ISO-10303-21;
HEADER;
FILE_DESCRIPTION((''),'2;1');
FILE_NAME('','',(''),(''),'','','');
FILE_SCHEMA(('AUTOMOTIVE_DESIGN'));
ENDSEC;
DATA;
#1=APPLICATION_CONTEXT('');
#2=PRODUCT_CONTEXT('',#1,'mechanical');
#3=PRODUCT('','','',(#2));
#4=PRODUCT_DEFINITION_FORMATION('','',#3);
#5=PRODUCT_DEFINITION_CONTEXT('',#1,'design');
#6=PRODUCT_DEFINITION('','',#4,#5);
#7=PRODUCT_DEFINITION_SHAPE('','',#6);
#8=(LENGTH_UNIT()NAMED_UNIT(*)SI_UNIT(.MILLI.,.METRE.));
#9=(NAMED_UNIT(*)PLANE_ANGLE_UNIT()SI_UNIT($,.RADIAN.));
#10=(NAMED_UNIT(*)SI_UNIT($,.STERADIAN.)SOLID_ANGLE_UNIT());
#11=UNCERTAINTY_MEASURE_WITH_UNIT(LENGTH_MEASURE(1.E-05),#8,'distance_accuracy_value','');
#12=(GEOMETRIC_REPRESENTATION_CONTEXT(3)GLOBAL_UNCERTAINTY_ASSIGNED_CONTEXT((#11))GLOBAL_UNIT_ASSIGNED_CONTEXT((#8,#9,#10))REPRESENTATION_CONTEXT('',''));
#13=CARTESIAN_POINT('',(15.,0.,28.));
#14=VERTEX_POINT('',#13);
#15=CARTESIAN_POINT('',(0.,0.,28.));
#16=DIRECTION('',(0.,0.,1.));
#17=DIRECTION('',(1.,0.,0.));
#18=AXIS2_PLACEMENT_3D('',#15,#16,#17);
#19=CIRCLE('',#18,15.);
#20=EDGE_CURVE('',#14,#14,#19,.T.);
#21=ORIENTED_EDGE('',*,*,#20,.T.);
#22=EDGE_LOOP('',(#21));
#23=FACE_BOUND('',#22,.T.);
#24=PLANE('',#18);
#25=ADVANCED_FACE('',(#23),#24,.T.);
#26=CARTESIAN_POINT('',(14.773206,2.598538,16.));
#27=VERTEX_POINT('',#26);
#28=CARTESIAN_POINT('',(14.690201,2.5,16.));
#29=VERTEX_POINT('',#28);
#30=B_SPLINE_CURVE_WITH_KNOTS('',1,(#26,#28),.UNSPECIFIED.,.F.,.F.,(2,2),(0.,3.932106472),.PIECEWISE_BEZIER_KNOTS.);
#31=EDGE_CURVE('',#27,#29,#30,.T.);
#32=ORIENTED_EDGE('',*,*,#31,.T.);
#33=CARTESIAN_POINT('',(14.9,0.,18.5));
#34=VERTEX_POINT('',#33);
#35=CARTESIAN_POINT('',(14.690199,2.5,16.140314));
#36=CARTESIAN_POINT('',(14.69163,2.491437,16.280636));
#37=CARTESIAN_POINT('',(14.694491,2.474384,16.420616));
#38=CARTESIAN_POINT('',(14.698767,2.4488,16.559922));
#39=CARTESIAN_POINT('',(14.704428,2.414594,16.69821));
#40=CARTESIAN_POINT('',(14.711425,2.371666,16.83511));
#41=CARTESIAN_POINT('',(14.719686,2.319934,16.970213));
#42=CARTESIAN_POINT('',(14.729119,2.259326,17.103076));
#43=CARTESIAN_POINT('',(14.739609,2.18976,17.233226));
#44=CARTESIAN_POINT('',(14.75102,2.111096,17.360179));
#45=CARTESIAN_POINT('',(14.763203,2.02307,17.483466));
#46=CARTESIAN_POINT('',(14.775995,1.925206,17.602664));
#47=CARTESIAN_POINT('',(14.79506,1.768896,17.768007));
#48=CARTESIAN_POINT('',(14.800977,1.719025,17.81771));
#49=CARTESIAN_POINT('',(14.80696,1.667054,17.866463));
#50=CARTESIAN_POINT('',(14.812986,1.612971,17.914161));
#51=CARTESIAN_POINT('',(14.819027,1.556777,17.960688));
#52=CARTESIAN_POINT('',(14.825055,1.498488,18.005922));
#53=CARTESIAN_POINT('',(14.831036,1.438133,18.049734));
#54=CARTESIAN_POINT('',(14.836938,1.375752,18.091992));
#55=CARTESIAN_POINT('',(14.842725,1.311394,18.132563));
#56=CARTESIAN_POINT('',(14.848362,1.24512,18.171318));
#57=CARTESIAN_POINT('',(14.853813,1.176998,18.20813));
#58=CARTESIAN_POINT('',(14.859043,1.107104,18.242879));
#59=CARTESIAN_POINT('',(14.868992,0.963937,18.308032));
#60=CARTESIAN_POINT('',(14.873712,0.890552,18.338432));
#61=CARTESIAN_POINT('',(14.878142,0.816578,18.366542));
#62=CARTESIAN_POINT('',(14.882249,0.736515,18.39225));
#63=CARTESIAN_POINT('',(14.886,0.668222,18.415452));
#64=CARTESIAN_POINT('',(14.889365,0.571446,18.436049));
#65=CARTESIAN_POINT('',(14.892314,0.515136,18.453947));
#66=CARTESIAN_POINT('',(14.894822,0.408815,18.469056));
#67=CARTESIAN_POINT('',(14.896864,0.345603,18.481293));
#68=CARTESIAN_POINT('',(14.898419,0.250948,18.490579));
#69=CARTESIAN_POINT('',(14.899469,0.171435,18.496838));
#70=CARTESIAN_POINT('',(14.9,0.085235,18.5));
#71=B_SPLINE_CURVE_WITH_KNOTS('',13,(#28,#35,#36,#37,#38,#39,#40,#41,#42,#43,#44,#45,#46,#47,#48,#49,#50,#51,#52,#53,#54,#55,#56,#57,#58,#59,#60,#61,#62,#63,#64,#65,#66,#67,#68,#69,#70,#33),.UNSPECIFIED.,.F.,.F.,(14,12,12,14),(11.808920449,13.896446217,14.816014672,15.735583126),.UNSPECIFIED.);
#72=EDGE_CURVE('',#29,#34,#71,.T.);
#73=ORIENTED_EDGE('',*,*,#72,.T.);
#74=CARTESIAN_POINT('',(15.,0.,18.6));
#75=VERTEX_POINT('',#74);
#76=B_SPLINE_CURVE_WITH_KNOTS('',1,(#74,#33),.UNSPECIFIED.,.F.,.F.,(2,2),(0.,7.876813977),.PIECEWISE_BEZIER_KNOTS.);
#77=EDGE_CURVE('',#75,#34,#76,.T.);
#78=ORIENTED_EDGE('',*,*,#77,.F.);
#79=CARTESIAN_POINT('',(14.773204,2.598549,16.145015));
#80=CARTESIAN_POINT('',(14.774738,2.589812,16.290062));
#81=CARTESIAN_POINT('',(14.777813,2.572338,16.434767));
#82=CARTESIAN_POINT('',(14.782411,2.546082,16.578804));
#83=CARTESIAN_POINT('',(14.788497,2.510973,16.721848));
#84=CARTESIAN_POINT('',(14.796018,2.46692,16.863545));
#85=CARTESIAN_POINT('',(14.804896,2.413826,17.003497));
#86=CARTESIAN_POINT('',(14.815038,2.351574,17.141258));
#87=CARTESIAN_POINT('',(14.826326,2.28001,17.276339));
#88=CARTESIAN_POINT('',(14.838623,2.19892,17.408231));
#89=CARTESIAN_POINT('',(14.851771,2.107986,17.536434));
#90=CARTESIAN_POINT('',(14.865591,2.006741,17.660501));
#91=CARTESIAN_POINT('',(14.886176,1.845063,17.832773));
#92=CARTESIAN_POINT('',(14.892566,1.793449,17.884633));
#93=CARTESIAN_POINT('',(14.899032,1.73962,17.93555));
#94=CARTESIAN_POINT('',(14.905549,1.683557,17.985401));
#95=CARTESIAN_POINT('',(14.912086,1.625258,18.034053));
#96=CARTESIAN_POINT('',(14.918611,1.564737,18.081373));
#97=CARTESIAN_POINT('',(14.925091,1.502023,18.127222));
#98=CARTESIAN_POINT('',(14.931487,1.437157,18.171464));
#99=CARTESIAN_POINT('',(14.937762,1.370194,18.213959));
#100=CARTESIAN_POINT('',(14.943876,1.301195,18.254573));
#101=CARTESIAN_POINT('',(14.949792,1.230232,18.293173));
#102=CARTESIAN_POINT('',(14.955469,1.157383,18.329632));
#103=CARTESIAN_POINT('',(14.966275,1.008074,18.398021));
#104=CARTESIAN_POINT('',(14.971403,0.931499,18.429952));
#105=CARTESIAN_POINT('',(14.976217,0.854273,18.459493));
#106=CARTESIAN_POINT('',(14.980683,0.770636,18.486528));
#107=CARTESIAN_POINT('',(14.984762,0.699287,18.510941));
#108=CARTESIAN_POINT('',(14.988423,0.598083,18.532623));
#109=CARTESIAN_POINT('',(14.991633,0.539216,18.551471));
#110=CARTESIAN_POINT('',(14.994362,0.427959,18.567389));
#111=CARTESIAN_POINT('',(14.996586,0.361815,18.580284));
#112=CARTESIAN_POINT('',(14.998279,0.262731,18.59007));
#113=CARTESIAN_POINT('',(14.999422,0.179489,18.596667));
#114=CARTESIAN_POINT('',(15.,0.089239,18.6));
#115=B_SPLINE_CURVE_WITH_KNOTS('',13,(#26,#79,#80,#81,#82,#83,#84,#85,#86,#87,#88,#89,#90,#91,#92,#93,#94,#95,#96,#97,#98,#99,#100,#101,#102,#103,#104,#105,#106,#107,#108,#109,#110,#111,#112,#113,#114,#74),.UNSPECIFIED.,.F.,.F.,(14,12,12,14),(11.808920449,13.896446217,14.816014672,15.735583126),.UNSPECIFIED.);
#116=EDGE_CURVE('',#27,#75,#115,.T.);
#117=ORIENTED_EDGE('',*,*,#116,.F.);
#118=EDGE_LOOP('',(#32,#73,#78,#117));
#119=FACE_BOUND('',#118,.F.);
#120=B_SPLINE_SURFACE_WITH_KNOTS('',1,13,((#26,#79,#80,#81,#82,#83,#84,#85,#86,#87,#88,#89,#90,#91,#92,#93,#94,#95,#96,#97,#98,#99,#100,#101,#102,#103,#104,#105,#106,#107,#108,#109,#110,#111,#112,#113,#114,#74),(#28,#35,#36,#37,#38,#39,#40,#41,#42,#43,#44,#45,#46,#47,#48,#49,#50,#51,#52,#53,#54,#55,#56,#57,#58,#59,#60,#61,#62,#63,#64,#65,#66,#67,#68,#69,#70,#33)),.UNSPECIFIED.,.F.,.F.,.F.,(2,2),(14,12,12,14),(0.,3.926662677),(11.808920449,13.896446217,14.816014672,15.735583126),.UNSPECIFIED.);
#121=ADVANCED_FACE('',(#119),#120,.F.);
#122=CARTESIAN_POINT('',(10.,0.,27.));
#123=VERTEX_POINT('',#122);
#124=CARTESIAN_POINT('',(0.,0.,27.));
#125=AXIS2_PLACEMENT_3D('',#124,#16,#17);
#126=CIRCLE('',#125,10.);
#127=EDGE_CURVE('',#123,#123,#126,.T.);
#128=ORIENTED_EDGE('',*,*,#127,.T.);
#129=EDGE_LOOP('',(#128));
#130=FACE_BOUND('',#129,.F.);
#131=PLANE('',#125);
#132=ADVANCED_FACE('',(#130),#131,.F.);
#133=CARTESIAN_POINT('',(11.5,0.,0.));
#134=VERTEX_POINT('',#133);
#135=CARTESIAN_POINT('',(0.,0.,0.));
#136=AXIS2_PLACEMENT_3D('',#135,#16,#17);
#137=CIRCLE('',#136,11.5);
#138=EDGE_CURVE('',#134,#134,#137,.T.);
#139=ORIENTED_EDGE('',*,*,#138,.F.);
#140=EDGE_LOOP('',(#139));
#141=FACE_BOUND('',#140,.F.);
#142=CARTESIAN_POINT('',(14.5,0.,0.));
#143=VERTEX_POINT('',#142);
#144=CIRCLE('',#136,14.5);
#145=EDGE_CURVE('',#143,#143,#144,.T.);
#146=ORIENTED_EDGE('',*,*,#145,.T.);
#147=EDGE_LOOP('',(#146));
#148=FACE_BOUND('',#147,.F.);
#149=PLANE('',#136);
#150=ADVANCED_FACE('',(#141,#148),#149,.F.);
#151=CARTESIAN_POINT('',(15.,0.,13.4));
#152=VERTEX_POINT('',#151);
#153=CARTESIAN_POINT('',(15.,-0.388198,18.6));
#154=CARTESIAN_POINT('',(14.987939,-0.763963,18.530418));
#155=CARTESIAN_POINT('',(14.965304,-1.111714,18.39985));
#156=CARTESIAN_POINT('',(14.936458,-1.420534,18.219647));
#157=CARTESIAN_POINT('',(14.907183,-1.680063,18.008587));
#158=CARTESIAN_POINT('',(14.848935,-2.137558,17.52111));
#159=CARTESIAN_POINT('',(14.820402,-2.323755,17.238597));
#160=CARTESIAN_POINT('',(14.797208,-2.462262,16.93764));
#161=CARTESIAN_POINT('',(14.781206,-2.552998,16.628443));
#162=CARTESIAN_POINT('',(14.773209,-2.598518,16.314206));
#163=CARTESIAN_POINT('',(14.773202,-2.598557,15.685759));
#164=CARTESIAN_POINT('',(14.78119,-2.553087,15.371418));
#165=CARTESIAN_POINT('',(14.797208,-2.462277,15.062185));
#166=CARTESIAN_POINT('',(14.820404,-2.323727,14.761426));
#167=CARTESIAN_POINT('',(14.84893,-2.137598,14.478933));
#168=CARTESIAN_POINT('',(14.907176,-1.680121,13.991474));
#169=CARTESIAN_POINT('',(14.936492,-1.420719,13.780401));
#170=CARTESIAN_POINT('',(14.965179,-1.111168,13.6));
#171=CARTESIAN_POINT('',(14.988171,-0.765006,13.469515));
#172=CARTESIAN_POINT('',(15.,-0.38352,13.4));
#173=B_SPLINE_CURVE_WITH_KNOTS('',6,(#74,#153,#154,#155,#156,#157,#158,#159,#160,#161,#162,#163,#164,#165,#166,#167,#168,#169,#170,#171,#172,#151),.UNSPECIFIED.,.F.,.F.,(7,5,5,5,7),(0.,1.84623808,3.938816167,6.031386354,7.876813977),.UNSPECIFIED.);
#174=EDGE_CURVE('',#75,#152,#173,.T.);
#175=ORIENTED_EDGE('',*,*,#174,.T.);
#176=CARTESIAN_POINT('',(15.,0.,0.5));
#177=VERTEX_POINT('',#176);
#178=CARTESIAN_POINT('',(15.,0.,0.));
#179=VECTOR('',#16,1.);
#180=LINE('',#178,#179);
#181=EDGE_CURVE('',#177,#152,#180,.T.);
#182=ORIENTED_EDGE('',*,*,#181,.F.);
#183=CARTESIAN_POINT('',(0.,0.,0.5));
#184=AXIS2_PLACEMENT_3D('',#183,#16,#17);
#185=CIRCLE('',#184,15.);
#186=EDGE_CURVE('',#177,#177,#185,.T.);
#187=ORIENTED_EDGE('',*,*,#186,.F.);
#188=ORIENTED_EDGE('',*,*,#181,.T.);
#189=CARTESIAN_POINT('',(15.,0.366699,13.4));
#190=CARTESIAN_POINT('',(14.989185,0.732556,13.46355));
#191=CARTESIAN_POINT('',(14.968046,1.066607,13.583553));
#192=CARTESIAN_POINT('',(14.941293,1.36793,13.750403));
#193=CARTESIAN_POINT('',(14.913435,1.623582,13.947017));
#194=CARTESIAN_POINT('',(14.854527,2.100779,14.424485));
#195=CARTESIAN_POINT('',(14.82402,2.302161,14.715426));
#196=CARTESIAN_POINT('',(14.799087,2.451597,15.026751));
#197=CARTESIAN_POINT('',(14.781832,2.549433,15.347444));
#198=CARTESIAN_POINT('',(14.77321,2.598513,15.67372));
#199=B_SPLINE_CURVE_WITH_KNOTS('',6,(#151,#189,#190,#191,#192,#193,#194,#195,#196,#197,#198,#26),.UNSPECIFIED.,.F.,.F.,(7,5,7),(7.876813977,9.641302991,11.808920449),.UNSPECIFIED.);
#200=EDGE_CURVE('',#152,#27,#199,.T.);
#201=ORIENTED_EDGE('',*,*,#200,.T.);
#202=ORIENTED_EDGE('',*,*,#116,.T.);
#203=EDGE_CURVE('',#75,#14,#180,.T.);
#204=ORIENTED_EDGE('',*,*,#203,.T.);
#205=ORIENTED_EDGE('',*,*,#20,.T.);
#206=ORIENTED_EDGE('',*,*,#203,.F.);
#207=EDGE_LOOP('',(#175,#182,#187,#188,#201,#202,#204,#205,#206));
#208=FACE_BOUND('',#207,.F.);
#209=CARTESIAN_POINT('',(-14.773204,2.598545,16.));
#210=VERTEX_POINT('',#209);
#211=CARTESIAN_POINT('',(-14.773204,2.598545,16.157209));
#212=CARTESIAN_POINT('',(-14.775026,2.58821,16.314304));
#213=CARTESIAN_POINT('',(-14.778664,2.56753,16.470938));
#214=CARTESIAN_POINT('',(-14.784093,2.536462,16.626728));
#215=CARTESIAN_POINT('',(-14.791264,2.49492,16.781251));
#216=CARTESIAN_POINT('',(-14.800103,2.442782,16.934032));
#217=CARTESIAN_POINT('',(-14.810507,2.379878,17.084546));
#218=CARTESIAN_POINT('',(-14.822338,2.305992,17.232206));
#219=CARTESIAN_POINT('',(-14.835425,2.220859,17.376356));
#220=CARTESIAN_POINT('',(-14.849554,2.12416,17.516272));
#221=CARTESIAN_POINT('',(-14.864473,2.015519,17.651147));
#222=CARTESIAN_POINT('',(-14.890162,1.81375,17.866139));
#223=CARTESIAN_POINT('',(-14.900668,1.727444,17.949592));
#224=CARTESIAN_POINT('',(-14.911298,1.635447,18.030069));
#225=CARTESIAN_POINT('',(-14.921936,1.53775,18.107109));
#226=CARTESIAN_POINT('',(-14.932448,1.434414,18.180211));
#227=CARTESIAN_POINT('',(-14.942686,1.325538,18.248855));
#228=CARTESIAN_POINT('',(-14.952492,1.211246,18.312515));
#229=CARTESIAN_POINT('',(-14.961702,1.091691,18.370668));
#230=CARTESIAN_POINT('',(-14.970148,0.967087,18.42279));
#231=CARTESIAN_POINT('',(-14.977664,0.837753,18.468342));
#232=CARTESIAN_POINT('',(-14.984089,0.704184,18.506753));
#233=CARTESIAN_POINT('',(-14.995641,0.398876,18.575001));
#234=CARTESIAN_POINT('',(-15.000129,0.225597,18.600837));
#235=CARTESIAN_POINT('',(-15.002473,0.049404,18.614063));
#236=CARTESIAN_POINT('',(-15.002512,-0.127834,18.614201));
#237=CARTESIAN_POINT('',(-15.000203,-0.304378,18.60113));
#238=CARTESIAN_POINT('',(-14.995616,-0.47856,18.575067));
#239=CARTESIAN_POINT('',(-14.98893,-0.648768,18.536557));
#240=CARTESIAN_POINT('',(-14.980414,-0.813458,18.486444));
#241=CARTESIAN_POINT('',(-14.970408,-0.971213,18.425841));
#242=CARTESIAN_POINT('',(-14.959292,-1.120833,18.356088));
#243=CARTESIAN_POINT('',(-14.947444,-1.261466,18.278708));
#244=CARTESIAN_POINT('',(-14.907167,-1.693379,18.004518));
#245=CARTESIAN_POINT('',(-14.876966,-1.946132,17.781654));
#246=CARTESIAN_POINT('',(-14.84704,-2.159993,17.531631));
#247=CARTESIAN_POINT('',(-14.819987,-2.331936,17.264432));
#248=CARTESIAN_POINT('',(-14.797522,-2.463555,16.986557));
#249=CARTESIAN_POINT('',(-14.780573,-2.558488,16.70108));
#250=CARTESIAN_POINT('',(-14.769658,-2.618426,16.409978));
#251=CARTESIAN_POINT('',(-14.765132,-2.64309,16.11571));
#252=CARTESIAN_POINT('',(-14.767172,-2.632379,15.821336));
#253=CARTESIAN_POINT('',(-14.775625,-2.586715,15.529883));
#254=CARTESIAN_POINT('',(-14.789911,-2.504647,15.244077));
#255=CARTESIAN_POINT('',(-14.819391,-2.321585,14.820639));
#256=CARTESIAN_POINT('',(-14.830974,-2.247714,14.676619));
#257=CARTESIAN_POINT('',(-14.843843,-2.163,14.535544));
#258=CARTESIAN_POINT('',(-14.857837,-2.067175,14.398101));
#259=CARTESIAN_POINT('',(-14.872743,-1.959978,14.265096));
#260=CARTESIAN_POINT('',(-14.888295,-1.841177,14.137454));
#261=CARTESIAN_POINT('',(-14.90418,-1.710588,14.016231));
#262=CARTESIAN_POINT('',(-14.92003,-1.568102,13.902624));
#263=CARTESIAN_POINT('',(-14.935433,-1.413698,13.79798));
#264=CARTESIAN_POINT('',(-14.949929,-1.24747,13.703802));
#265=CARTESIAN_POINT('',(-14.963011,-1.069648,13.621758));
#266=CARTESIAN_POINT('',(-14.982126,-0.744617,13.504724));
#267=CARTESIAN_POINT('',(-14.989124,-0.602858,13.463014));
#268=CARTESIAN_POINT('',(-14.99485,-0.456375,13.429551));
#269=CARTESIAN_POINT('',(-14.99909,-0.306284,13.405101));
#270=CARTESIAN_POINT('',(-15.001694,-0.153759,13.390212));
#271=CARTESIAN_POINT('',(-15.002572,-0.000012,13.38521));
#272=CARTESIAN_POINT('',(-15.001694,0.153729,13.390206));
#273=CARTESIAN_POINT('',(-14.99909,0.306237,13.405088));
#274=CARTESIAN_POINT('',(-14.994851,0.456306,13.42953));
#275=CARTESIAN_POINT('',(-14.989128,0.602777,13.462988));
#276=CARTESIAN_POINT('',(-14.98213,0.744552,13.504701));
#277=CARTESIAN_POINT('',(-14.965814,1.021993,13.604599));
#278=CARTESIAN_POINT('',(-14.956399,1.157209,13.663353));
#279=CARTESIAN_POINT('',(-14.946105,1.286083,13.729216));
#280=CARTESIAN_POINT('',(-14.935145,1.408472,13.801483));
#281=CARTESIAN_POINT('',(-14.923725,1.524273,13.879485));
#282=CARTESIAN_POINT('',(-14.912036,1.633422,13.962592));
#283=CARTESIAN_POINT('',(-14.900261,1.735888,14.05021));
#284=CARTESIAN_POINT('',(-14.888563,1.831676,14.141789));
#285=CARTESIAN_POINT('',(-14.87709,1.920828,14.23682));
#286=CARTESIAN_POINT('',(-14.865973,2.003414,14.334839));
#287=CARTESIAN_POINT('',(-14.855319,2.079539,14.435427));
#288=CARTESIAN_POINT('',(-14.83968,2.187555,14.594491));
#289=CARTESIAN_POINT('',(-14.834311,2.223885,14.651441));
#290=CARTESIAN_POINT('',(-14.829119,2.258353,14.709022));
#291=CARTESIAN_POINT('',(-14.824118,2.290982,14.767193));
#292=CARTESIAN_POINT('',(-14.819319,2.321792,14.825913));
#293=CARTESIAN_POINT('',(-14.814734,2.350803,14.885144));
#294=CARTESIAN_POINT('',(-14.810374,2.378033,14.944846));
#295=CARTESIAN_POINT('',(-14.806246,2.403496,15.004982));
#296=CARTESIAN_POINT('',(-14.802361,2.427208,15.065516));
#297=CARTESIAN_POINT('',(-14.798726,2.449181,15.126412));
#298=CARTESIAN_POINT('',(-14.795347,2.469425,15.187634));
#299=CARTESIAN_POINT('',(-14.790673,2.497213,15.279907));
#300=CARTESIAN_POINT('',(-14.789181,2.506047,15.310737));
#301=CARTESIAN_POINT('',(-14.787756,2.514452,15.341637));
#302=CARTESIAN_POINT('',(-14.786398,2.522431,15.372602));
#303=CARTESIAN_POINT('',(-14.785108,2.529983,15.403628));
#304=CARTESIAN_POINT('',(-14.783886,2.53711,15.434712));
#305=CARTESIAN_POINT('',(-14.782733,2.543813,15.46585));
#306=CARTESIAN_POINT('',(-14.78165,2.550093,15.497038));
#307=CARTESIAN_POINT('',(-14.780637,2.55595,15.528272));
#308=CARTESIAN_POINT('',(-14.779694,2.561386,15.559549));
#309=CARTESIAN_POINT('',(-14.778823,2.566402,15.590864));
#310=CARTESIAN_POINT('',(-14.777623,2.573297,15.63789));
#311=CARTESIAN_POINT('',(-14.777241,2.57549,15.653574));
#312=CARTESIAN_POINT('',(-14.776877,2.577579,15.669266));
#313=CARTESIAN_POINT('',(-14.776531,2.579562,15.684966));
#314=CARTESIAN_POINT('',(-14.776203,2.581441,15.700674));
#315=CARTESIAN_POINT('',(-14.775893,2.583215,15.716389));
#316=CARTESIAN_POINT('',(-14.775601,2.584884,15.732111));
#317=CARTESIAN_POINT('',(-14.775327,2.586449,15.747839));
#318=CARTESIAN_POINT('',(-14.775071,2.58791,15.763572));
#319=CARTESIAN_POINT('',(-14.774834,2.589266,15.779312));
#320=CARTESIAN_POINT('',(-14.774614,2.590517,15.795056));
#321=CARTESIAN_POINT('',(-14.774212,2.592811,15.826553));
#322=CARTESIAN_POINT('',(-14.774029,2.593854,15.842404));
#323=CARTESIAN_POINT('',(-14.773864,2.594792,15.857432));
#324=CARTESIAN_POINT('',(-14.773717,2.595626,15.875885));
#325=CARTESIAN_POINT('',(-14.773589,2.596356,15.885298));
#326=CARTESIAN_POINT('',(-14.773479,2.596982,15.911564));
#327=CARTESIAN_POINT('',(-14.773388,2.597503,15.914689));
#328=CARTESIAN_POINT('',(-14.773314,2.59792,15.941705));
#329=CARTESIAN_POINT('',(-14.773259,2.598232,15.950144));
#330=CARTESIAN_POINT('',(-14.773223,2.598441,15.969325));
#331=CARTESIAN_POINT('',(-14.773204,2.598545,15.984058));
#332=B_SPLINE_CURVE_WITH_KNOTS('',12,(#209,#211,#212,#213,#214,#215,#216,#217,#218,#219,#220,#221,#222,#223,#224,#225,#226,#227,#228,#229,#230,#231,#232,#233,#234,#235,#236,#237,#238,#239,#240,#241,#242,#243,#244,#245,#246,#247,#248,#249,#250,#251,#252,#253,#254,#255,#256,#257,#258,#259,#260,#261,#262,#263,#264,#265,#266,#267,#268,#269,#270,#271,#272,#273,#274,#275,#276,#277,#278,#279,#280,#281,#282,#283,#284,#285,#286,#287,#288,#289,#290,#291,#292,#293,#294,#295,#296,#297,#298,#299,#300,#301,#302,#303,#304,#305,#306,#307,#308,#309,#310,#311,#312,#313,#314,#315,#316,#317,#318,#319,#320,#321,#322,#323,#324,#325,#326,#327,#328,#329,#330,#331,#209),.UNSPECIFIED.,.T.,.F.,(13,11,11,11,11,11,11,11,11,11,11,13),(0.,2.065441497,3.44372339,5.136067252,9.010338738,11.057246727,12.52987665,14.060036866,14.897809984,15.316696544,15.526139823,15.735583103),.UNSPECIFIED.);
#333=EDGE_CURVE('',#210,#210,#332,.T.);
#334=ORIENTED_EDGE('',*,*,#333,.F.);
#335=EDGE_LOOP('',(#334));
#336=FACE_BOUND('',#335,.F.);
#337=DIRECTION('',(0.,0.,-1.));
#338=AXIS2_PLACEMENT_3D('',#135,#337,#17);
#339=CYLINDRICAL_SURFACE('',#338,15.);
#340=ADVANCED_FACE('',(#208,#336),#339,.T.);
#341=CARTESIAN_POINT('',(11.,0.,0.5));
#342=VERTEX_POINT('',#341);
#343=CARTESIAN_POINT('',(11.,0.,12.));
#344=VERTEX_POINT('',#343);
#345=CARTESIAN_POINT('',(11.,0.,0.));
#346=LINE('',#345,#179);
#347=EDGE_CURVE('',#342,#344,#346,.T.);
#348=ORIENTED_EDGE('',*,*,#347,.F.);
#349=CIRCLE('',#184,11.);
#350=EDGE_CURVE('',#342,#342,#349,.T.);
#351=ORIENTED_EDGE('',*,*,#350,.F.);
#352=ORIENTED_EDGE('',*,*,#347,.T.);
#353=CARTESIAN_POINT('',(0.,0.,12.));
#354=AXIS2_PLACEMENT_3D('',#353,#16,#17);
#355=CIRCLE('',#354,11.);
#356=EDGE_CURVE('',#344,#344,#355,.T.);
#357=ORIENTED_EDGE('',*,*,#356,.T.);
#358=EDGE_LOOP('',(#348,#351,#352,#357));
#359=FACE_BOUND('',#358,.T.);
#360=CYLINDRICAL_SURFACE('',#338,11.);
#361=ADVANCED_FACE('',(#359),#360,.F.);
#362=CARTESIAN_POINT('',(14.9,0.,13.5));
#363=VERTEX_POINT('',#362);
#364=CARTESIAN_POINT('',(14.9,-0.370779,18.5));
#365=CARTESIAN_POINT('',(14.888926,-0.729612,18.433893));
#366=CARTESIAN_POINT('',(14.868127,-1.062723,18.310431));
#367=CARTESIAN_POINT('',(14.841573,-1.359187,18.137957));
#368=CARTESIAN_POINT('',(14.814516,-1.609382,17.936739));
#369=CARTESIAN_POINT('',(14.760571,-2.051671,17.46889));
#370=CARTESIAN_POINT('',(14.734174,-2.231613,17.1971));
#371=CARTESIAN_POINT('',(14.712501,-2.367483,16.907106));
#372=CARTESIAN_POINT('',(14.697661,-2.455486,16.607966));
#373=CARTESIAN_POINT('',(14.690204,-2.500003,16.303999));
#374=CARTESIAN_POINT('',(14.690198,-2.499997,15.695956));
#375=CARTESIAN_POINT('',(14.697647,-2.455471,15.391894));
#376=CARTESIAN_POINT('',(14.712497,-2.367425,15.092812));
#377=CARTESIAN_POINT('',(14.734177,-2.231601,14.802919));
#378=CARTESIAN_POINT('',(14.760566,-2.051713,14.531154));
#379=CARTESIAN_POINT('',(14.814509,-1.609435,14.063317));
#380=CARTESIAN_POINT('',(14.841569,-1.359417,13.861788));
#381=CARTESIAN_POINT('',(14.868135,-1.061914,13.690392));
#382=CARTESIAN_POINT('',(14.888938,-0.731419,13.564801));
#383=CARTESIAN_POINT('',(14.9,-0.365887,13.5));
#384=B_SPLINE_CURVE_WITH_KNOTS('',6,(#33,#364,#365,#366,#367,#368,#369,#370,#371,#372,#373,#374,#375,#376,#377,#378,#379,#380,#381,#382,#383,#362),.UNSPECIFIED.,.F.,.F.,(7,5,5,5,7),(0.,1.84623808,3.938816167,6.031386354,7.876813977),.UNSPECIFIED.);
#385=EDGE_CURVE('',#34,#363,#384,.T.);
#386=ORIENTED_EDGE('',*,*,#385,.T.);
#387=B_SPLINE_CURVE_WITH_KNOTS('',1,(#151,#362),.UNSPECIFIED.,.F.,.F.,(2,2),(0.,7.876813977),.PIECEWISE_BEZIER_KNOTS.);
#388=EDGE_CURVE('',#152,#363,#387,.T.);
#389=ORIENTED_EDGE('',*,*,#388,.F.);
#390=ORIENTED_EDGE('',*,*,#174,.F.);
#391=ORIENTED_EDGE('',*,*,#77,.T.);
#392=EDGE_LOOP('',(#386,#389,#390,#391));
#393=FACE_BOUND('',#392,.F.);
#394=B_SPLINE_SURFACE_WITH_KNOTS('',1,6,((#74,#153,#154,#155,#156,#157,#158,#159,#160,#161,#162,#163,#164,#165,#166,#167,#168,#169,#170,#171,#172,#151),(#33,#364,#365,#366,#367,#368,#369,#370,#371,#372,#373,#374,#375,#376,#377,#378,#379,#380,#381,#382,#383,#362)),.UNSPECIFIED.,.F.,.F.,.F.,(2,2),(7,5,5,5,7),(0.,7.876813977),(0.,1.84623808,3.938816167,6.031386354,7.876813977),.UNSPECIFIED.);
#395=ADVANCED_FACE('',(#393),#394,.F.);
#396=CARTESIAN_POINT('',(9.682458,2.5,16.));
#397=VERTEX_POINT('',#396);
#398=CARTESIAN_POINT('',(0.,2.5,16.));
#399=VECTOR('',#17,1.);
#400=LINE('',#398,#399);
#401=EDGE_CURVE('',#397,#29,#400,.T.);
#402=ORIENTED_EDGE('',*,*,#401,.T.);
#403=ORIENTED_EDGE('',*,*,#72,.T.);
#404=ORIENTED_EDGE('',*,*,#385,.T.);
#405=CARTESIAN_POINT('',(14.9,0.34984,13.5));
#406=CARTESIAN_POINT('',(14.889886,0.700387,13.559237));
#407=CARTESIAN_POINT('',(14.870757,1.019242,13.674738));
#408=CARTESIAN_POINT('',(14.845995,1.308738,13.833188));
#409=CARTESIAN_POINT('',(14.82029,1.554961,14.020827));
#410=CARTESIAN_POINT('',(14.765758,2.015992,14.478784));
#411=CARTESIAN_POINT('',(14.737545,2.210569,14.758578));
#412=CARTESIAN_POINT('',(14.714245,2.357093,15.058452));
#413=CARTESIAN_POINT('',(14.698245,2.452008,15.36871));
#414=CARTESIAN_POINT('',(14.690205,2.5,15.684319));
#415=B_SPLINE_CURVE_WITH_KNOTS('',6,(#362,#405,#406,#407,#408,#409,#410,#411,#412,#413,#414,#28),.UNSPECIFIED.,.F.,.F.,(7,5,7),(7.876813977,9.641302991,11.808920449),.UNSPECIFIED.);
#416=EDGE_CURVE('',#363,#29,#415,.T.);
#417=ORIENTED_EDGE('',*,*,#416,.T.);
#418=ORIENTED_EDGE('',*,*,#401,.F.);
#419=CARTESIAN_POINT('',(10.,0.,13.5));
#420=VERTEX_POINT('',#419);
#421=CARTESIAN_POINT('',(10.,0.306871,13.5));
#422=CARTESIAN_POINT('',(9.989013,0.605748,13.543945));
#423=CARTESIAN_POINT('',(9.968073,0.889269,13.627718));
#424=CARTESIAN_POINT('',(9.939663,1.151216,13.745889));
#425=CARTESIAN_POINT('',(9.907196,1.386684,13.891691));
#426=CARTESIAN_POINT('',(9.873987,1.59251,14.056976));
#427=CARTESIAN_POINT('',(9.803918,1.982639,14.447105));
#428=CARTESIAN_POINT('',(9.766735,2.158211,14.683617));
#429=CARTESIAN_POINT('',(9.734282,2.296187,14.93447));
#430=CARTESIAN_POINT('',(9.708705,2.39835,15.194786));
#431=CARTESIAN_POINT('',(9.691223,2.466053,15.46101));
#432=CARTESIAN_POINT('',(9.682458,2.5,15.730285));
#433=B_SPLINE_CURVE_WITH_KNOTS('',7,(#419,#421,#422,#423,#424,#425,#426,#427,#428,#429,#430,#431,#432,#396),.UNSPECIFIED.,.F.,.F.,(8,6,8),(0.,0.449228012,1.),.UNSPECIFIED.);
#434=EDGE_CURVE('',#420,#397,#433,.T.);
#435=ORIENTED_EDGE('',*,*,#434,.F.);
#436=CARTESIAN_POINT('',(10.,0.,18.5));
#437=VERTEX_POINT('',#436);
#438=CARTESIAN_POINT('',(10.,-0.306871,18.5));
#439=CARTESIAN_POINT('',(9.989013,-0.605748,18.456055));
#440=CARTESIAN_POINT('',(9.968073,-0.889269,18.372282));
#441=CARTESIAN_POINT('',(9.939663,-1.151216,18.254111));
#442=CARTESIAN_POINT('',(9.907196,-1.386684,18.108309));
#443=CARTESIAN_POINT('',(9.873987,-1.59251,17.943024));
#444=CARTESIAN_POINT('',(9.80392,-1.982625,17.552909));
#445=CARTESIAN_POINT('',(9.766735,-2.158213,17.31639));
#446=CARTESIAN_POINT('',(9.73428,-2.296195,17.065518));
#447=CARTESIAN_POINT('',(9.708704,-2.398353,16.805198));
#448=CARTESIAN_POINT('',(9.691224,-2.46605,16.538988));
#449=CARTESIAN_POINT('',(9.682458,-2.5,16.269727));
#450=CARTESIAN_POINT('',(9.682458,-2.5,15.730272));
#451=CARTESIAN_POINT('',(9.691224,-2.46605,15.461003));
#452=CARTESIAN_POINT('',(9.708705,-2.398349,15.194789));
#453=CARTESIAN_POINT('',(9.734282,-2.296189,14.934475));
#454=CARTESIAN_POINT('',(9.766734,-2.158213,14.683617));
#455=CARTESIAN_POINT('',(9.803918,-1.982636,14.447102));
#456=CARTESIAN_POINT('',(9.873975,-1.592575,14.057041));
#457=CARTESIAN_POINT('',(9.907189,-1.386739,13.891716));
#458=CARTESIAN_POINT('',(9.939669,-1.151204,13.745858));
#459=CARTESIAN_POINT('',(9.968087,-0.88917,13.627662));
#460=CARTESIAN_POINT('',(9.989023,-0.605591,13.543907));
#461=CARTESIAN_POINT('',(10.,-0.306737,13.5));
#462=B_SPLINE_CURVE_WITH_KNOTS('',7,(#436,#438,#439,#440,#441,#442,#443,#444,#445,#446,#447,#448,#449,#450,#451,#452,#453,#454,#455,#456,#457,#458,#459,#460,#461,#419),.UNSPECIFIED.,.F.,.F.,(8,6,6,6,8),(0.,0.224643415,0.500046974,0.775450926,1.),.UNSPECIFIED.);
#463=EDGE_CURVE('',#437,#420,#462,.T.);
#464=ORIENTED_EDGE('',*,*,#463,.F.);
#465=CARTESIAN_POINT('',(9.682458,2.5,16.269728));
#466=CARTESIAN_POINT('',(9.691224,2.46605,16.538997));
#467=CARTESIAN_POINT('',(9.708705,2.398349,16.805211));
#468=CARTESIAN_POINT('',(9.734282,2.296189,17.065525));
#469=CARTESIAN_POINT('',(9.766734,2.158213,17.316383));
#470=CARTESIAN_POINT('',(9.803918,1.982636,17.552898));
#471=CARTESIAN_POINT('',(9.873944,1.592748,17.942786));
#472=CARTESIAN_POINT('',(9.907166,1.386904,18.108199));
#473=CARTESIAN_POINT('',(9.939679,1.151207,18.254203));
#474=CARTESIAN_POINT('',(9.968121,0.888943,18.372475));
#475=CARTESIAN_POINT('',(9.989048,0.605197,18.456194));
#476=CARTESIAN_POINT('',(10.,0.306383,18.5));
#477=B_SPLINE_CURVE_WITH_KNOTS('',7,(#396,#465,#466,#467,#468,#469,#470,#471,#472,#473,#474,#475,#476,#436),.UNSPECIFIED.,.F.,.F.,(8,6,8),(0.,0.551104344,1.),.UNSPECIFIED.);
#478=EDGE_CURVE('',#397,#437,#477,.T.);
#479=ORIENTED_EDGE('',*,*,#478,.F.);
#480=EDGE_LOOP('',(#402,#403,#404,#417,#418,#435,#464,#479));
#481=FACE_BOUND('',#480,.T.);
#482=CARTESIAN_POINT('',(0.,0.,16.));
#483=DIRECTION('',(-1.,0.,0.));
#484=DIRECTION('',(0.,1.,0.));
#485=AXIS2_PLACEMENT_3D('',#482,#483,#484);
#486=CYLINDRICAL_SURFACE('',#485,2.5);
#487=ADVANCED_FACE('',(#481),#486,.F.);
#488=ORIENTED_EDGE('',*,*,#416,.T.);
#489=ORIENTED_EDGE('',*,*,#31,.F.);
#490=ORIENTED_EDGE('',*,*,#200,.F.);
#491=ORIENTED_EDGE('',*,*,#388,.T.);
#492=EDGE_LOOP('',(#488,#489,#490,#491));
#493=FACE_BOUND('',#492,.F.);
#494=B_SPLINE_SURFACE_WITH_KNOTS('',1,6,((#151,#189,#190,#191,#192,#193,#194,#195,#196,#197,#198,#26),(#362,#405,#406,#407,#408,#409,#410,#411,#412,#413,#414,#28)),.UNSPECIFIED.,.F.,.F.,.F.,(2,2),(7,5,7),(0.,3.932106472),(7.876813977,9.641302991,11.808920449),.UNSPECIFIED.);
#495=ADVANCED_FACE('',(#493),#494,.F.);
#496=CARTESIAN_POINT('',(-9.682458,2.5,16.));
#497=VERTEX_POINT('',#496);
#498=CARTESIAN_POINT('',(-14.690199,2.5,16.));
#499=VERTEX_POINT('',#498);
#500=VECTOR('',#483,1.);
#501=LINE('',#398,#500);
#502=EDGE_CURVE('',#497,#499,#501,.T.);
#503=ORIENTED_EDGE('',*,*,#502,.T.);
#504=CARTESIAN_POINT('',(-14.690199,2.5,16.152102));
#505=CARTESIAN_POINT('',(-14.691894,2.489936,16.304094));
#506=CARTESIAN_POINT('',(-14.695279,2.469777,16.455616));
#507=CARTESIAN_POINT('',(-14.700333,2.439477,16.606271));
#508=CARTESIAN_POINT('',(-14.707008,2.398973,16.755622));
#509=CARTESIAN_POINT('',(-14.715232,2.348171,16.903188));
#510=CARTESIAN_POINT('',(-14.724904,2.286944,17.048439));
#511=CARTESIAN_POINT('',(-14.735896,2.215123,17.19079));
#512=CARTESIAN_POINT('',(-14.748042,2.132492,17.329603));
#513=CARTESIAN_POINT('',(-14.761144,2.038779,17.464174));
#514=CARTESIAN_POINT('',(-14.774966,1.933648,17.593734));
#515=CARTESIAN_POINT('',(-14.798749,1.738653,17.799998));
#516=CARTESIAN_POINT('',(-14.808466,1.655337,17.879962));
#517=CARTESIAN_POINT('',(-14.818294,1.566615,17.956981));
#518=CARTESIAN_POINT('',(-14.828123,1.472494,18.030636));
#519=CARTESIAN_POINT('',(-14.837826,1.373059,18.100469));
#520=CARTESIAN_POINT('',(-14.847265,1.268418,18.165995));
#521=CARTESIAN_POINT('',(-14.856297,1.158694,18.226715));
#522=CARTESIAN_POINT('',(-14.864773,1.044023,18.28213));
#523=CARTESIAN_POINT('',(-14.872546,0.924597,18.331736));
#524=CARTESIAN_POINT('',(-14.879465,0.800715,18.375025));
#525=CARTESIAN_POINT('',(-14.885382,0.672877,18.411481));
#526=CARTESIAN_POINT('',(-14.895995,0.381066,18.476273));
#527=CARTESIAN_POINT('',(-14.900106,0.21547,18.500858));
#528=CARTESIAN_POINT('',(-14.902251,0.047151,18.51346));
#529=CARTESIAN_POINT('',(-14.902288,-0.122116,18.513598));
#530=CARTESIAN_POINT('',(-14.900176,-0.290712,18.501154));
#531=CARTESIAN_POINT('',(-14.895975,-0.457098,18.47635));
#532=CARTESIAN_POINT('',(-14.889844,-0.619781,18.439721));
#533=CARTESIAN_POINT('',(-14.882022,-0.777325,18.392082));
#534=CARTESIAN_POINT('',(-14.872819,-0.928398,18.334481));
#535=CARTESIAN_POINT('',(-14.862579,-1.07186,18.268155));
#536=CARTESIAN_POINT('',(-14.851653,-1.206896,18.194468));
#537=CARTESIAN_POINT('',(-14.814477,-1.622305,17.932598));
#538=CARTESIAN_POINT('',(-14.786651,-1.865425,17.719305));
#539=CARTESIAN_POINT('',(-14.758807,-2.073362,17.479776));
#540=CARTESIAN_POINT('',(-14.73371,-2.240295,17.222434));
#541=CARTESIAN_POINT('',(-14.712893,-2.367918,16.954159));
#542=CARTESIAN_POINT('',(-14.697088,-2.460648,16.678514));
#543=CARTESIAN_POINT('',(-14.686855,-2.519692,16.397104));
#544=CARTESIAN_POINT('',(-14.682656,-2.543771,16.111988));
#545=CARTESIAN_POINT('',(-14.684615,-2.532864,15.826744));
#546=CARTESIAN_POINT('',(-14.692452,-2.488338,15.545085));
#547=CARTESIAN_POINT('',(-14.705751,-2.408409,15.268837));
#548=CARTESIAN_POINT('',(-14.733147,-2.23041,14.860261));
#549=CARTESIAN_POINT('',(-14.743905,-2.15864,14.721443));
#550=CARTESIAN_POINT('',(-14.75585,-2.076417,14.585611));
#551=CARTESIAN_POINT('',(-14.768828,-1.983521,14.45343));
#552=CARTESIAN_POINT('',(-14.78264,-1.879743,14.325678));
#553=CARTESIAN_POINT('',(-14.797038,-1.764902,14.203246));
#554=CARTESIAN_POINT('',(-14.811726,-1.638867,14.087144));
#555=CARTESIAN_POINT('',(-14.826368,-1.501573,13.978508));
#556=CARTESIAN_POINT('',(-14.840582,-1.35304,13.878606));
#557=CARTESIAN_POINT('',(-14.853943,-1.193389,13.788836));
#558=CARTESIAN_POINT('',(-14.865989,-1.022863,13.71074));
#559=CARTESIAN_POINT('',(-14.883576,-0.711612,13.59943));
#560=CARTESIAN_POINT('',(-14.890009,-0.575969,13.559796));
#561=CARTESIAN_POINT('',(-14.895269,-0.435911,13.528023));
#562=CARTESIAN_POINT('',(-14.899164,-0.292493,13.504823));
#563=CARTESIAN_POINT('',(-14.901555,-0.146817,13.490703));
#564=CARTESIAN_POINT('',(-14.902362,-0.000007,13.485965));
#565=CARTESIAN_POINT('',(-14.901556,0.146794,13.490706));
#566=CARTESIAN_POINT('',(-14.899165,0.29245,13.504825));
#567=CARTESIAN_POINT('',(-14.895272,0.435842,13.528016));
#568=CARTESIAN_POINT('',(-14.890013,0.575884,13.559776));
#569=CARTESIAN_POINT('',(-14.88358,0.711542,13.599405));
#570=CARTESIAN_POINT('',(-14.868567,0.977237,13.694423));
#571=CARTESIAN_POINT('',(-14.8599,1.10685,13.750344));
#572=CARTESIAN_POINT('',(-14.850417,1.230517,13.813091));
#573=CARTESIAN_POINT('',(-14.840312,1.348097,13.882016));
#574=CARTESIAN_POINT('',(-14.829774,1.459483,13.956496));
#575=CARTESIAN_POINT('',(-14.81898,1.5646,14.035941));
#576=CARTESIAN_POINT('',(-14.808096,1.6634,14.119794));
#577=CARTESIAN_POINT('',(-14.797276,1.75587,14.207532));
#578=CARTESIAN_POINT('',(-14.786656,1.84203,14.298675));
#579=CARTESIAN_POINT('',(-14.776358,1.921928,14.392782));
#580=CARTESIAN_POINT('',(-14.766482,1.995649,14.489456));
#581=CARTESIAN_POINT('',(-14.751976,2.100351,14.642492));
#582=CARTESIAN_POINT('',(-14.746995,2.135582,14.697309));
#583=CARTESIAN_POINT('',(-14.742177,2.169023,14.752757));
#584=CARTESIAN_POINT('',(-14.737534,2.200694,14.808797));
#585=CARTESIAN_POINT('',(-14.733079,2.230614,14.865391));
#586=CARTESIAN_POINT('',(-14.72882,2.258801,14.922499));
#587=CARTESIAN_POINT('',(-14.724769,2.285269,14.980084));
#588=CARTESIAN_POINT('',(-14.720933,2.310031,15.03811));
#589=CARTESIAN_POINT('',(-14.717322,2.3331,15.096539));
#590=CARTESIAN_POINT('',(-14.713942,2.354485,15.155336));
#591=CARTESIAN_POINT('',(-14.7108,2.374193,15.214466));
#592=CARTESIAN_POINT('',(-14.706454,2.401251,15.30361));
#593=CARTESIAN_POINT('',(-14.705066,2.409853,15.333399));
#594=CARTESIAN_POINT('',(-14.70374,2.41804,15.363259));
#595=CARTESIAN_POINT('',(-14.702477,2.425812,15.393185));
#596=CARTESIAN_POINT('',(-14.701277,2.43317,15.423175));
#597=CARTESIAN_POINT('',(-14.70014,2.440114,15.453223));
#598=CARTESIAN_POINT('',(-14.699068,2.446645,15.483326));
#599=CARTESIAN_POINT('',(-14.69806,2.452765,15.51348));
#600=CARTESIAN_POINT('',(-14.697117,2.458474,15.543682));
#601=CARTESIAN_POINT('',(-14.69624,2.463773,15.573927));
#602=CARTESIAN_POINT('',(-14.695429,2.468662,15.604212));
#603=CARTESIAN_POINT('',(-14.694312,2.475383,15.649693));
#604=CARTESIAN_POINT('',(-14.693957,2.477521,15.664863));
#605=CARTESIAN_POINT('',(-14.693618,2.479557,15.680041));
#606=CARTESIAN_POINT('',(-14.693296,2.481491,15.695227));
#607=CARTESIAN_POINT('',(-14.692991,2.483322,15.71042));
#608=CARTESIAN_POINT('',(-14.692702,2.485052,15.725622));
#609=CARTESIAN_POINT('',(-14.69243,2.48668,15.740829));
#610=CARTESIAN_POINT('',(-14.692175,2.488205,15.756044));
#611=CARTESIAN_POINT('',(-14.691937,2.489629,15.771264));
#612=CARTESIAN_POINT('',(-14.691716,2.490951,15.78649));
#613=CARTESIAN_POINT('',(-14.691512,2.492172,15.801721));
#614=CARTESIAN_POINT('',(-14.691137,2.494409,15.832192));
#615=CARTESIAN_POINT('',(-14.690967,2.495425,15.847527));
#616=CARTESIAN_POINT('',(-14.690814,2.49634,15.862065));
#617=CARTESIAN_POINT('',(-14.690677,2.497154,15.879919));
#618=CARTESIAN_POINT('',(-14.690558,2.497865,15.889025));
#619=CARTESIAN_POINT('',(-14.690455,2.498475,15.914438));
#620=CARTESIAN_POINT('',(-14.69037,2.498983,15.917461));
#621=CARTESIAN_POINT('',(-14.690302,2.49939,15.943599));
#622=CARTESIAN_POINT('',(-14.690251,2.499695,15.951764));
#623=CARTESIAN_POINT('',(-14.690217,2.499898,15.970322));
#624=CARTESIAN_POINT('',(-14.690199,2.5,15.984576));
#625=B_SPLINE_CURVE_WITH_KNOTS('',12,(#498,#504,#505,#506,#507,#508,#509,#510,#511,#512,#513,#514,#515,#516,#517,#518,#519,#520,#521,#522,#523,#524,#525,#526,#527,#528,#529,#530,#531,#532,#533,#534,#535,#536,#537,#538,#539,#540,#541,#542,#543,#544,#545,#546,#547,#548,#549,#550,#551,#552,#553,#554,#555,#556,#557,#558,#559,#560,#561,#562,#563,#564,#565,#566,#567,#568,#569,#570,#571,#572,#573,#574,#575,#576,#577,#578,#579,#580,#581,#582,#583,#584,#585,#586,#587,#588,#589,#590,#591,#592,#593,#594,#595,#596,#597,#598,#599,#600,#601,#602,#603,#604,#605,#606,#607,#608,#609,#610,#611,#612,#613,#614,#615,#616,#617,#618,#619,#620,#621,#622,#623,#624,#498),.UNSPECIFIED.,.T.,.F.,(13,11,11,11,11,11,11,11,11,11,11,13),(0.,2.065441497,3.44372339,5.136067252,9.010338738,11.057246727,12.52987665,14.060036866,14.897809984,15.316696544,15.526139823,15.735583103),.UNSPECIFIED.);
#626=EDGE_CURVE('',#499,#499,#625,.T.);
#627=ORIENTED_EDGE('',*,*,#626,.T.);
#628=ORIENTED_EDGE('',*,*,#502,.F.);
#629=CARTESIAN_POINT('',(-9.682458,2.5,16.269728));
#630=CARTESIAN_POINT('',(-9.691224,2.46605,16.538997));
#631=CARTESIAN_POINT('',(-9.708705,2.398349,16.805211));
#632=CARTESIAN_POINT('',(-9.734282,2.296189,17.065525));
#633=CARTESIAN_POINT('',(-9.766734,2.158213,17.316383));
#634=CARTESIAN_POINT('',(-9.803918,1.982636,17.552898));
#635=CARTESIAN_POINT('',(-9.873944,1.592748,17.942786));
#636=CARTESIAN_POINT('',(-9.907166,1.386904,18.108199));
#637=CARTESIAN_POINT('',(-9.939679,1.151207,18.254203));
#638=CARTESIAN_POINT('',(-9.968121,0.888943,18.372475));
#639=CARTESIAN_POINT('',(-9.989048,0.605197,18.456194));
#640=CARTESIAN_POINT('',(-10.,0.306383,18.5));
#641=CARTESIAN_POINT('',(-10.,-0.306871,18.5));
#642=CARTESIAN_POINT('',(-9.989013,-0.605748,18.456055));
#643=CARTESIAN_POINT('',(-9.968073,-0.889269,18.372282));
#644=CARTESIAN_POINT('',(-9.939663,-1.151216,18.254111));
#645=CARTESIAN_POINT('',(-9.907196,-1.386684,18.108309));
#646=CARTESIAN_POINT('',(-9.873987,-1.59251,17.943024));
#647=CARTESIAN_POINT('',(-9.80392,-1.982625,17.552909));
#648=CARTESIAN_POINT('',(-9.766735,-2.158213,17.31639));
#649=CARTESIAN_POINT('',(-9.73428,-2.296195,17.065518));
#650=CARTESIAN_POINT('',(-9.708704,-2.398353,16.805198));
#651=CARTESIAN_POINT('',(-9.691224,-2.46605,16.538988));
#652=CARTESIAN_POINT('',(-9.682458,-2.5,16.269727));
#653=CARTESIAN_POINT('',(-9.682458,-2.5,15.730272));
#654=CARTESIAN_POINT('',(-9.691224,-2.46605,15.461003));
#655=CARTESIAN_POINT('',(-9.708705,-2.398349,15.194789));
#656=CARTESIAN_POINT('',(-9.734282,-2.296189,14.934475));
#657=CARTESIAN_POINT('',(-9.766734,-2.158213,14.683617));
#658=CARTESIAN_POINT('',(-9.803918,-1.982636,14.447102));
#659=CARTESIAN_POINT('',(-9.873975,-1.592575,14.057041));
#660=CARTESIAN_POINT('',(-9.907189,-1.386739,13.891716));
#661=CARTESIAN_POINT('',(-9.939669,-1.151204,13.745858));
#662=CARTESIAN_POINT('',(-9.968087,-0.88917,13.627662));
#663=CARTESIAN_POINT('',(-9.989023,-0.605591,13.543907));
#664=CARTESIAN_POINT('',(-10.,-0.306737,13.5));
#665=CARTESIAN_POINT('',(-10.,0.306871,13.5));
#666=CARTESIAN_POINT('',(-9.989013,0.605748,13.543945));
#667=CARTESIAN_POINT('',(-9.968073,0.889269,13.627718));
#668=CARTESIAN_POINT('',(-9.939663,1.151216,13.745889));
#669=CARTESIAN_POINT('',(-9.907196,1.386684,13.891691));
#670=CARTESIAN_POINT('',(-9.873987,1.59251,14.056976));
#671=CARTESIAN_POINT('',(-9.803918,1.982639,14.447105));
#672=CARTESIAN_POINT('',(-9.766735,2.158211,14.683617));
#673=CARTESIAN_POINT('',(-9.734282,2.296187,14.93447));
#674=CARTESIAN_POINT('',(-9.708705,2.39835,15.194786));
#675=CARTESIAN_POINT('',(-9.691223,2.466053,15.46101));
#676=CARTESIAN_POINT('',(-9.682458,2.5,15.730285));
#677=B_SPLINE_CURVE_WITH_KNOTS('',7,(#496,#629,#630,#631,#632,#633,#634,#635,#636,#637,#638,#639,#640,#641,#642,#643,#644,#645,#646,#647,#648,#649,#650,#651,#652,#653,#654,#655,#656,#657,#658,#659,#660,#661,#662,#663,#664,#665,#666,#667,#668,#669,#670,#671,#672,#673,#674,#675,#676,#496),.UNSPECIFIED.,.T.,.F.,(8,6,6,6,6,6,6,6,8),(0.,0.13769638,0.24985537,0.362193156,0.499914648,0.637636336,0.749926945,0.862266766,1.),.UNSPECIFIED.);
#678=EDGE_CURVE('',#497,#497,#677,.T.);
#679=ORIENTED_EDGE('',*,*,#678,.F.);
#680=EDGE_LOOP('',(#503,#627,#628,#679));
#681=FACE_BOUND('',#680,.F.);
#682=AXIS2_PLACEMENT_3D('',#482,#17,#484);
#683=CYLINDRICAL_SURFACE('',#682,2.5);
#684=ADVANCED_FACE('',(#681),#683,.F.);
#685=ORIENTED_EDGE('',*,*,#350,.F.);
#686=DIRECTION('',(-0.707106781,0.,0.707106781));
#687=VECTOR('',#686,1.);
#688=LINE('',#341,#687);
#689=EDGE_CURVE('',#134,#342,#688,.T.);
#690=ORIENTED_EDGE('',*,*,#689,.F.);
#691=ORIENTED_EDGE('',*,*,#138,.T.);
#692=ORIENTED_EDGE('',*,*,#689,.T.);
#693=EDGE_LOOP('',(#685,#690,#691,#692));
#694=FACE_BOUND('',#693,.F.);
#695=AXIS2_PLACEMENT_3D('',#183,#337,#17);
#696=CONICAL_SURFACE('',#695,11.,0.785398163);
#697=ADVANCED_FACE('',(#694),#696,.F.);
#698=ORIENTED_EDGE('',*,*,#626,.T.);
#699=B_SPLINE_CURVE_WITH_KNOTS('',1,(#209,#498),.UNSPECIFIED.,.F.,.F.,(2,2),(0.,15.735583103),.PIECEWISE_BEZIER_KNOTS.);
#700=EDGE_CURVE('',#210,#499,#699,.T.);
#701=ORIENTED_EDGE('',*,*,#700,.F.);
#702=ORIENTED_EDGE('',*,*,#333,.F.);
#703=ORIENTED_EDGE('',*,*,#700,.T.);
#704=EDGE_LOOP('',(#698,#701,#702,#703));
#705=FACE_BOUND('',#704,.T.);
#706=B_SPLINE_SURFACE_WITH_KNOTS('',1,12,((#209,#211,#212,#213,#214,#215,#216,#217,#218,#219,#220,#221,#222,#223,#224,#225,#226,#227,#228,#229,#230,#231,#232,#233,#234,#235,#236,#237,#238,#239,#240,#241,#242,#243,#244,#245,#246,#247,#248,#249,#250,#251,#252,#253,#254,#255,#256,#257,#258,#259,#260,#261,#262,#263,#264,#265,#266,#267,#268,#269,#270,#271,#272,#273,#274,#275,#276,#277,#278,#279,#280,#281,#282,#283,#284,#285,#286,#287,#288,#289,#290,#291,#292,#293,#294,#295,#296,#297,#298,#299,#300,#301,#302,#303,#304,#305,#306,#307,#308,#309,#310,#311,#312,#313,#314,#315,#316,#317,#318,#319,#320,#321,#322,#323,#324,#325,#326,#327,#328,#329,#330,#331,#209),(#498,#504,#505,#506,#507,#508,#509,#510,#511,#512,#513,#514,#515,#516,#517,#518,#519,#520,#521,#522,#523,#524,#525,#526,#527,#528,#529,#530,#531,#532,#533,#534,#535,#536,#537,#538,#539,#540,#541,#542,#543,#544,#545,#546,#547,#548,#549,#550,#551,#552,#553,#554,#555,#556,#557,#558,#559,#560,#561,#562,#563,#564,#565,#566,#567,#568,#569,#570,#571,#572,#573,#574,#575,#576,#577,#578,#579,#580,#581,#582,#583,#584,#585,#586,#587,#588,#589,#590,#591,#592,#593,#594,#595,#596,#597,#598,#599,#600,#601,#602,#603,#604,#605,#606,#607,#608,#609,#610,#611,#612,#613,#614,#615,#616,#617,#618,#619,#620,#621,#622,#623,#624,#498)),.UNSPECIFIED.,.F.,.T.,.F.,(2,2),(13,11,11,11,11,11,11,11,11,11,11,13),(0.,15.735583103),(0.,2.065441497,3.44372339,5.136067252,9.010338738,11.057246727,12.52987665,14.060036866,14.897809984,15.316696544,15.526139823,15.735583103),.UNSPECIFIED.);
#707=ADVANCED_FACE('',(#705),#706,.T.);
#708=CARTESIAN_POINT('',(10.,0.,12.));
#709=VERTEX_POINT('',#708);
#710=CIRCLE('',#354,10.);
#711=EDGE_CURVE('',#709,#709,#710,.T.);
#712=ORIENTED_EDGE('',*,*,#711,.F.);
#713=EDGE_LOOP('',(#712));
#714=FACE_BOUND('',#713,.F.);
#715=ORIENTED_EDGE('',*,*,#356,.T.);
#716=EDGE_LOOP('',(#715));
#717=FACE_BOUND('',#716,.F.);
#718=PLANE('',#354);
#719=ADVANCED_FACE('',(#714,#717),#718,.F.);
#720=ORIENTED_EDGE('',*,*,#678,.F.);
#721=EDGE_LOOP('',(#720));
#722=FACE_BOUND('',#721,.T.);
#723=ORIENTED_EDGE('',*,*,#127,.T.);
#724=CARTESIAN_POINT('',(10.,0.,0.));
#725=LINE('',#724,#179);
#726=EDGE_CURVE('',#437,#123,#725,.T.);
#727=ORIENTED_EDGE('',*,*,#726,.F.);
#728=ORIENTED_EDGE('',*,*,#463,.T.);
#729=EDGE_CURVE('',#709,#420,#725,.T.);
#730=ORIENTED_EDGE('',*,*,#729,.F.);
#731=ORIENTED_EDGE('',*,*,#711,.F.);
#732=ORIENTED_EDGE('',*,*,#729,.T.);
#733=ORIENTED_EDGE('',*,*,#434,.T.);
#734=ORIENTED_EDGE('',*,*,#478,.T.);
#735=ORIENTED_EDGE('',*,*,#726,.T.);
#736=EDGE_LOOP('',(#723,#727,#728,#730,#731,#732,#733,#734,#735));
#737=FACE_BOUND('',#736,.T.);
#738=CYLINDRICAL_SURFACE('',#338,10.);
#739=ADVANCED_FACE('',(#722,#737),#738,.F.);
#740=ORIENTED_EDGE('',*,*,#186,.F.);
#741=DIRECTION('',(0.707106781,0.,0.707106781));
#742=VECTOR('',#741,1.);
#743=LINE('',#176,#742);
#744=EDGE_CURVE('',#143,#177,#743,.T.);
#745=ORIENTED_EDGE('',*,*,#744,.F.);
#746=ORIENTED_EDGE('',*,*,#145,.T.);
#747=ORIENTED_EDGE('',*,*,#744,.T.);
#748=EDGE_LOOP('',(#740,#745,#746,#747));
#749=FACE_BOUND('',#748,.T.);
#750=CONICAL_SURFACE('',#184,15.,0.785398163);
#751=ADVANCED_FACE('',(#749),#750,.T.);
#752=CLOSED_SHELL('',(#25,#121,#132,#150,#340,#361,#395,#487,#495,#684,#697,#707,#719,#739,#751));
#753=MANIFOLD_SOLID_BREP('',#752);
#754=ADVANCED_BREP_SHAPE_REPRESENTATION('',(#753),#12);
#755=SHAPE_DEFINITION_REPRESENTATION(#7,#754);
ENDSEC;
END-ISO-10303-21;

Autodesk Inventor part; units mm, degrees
ref_plane "YZ Plane" through (0, 0, 0) normal (1, 0, 0) x (0, 1, 0)
ref_plane "XZ Plane" through (0, 0, 0) normal (0, 1, 0) x (-1, 0, 0)
ref_plane "XY Plane" through (0, 0, 0) normal (0, 0, 1) x (1, 0, 0)
sketch "Sketch1" plane through (0, 0, 0) normal (0, 0, 1) x (1, 0, 0)
  circle A0 centre (0, 0) radius 10
  circle A1 centre (0, 0) radius 11
  circle A2 centre (0, 0) radius 15
  dimension "d0" = 20
  dimension "d1" = 22
  dimension "d2" = 30
extrude "Extrusion1" add sketch "Sketch1" along normal blind 28 contours A0 | A1 | A2
extrude "Extrusion2" cut sketch "Sketch1" along normal blind 12 contours A1
extrude "Extrusion3" cut sketch "Sketch1" along normal blind 27 contours A0
sketch "Sketch2" plane through (0, 0, 0) normal (1, 0, 0) x (0, 1, 0)
  line L0 (15, 28) -> (-15, 28) projected
  line L1 (15, 0) -> (-15, 0) projected
  circle A0 centre (0, 16) radius 2.5
  point P0 (0, 0)
  point P1 (0, 0)
  dimension "d9" = 5
  dimension "d10" = 16
extrude "Extrusion4" cut sketch "Sketch2" along normal through all both and the other way through all
chamfer "Chamfer1" distance 0.5 angle 45 2 edges at (-11, 0, 0) (-15, 0, 0)
chamfer "Chamfer2" distance 0.1 angle 45 4 edges at (14.7902, -2.5, 16.0004) (14.8791, 1.901, 14.3764) (14.8788, 1.9027, 17.6217) (-14.7902, -2.4999, 15.9815)
properties part number "Piston"
